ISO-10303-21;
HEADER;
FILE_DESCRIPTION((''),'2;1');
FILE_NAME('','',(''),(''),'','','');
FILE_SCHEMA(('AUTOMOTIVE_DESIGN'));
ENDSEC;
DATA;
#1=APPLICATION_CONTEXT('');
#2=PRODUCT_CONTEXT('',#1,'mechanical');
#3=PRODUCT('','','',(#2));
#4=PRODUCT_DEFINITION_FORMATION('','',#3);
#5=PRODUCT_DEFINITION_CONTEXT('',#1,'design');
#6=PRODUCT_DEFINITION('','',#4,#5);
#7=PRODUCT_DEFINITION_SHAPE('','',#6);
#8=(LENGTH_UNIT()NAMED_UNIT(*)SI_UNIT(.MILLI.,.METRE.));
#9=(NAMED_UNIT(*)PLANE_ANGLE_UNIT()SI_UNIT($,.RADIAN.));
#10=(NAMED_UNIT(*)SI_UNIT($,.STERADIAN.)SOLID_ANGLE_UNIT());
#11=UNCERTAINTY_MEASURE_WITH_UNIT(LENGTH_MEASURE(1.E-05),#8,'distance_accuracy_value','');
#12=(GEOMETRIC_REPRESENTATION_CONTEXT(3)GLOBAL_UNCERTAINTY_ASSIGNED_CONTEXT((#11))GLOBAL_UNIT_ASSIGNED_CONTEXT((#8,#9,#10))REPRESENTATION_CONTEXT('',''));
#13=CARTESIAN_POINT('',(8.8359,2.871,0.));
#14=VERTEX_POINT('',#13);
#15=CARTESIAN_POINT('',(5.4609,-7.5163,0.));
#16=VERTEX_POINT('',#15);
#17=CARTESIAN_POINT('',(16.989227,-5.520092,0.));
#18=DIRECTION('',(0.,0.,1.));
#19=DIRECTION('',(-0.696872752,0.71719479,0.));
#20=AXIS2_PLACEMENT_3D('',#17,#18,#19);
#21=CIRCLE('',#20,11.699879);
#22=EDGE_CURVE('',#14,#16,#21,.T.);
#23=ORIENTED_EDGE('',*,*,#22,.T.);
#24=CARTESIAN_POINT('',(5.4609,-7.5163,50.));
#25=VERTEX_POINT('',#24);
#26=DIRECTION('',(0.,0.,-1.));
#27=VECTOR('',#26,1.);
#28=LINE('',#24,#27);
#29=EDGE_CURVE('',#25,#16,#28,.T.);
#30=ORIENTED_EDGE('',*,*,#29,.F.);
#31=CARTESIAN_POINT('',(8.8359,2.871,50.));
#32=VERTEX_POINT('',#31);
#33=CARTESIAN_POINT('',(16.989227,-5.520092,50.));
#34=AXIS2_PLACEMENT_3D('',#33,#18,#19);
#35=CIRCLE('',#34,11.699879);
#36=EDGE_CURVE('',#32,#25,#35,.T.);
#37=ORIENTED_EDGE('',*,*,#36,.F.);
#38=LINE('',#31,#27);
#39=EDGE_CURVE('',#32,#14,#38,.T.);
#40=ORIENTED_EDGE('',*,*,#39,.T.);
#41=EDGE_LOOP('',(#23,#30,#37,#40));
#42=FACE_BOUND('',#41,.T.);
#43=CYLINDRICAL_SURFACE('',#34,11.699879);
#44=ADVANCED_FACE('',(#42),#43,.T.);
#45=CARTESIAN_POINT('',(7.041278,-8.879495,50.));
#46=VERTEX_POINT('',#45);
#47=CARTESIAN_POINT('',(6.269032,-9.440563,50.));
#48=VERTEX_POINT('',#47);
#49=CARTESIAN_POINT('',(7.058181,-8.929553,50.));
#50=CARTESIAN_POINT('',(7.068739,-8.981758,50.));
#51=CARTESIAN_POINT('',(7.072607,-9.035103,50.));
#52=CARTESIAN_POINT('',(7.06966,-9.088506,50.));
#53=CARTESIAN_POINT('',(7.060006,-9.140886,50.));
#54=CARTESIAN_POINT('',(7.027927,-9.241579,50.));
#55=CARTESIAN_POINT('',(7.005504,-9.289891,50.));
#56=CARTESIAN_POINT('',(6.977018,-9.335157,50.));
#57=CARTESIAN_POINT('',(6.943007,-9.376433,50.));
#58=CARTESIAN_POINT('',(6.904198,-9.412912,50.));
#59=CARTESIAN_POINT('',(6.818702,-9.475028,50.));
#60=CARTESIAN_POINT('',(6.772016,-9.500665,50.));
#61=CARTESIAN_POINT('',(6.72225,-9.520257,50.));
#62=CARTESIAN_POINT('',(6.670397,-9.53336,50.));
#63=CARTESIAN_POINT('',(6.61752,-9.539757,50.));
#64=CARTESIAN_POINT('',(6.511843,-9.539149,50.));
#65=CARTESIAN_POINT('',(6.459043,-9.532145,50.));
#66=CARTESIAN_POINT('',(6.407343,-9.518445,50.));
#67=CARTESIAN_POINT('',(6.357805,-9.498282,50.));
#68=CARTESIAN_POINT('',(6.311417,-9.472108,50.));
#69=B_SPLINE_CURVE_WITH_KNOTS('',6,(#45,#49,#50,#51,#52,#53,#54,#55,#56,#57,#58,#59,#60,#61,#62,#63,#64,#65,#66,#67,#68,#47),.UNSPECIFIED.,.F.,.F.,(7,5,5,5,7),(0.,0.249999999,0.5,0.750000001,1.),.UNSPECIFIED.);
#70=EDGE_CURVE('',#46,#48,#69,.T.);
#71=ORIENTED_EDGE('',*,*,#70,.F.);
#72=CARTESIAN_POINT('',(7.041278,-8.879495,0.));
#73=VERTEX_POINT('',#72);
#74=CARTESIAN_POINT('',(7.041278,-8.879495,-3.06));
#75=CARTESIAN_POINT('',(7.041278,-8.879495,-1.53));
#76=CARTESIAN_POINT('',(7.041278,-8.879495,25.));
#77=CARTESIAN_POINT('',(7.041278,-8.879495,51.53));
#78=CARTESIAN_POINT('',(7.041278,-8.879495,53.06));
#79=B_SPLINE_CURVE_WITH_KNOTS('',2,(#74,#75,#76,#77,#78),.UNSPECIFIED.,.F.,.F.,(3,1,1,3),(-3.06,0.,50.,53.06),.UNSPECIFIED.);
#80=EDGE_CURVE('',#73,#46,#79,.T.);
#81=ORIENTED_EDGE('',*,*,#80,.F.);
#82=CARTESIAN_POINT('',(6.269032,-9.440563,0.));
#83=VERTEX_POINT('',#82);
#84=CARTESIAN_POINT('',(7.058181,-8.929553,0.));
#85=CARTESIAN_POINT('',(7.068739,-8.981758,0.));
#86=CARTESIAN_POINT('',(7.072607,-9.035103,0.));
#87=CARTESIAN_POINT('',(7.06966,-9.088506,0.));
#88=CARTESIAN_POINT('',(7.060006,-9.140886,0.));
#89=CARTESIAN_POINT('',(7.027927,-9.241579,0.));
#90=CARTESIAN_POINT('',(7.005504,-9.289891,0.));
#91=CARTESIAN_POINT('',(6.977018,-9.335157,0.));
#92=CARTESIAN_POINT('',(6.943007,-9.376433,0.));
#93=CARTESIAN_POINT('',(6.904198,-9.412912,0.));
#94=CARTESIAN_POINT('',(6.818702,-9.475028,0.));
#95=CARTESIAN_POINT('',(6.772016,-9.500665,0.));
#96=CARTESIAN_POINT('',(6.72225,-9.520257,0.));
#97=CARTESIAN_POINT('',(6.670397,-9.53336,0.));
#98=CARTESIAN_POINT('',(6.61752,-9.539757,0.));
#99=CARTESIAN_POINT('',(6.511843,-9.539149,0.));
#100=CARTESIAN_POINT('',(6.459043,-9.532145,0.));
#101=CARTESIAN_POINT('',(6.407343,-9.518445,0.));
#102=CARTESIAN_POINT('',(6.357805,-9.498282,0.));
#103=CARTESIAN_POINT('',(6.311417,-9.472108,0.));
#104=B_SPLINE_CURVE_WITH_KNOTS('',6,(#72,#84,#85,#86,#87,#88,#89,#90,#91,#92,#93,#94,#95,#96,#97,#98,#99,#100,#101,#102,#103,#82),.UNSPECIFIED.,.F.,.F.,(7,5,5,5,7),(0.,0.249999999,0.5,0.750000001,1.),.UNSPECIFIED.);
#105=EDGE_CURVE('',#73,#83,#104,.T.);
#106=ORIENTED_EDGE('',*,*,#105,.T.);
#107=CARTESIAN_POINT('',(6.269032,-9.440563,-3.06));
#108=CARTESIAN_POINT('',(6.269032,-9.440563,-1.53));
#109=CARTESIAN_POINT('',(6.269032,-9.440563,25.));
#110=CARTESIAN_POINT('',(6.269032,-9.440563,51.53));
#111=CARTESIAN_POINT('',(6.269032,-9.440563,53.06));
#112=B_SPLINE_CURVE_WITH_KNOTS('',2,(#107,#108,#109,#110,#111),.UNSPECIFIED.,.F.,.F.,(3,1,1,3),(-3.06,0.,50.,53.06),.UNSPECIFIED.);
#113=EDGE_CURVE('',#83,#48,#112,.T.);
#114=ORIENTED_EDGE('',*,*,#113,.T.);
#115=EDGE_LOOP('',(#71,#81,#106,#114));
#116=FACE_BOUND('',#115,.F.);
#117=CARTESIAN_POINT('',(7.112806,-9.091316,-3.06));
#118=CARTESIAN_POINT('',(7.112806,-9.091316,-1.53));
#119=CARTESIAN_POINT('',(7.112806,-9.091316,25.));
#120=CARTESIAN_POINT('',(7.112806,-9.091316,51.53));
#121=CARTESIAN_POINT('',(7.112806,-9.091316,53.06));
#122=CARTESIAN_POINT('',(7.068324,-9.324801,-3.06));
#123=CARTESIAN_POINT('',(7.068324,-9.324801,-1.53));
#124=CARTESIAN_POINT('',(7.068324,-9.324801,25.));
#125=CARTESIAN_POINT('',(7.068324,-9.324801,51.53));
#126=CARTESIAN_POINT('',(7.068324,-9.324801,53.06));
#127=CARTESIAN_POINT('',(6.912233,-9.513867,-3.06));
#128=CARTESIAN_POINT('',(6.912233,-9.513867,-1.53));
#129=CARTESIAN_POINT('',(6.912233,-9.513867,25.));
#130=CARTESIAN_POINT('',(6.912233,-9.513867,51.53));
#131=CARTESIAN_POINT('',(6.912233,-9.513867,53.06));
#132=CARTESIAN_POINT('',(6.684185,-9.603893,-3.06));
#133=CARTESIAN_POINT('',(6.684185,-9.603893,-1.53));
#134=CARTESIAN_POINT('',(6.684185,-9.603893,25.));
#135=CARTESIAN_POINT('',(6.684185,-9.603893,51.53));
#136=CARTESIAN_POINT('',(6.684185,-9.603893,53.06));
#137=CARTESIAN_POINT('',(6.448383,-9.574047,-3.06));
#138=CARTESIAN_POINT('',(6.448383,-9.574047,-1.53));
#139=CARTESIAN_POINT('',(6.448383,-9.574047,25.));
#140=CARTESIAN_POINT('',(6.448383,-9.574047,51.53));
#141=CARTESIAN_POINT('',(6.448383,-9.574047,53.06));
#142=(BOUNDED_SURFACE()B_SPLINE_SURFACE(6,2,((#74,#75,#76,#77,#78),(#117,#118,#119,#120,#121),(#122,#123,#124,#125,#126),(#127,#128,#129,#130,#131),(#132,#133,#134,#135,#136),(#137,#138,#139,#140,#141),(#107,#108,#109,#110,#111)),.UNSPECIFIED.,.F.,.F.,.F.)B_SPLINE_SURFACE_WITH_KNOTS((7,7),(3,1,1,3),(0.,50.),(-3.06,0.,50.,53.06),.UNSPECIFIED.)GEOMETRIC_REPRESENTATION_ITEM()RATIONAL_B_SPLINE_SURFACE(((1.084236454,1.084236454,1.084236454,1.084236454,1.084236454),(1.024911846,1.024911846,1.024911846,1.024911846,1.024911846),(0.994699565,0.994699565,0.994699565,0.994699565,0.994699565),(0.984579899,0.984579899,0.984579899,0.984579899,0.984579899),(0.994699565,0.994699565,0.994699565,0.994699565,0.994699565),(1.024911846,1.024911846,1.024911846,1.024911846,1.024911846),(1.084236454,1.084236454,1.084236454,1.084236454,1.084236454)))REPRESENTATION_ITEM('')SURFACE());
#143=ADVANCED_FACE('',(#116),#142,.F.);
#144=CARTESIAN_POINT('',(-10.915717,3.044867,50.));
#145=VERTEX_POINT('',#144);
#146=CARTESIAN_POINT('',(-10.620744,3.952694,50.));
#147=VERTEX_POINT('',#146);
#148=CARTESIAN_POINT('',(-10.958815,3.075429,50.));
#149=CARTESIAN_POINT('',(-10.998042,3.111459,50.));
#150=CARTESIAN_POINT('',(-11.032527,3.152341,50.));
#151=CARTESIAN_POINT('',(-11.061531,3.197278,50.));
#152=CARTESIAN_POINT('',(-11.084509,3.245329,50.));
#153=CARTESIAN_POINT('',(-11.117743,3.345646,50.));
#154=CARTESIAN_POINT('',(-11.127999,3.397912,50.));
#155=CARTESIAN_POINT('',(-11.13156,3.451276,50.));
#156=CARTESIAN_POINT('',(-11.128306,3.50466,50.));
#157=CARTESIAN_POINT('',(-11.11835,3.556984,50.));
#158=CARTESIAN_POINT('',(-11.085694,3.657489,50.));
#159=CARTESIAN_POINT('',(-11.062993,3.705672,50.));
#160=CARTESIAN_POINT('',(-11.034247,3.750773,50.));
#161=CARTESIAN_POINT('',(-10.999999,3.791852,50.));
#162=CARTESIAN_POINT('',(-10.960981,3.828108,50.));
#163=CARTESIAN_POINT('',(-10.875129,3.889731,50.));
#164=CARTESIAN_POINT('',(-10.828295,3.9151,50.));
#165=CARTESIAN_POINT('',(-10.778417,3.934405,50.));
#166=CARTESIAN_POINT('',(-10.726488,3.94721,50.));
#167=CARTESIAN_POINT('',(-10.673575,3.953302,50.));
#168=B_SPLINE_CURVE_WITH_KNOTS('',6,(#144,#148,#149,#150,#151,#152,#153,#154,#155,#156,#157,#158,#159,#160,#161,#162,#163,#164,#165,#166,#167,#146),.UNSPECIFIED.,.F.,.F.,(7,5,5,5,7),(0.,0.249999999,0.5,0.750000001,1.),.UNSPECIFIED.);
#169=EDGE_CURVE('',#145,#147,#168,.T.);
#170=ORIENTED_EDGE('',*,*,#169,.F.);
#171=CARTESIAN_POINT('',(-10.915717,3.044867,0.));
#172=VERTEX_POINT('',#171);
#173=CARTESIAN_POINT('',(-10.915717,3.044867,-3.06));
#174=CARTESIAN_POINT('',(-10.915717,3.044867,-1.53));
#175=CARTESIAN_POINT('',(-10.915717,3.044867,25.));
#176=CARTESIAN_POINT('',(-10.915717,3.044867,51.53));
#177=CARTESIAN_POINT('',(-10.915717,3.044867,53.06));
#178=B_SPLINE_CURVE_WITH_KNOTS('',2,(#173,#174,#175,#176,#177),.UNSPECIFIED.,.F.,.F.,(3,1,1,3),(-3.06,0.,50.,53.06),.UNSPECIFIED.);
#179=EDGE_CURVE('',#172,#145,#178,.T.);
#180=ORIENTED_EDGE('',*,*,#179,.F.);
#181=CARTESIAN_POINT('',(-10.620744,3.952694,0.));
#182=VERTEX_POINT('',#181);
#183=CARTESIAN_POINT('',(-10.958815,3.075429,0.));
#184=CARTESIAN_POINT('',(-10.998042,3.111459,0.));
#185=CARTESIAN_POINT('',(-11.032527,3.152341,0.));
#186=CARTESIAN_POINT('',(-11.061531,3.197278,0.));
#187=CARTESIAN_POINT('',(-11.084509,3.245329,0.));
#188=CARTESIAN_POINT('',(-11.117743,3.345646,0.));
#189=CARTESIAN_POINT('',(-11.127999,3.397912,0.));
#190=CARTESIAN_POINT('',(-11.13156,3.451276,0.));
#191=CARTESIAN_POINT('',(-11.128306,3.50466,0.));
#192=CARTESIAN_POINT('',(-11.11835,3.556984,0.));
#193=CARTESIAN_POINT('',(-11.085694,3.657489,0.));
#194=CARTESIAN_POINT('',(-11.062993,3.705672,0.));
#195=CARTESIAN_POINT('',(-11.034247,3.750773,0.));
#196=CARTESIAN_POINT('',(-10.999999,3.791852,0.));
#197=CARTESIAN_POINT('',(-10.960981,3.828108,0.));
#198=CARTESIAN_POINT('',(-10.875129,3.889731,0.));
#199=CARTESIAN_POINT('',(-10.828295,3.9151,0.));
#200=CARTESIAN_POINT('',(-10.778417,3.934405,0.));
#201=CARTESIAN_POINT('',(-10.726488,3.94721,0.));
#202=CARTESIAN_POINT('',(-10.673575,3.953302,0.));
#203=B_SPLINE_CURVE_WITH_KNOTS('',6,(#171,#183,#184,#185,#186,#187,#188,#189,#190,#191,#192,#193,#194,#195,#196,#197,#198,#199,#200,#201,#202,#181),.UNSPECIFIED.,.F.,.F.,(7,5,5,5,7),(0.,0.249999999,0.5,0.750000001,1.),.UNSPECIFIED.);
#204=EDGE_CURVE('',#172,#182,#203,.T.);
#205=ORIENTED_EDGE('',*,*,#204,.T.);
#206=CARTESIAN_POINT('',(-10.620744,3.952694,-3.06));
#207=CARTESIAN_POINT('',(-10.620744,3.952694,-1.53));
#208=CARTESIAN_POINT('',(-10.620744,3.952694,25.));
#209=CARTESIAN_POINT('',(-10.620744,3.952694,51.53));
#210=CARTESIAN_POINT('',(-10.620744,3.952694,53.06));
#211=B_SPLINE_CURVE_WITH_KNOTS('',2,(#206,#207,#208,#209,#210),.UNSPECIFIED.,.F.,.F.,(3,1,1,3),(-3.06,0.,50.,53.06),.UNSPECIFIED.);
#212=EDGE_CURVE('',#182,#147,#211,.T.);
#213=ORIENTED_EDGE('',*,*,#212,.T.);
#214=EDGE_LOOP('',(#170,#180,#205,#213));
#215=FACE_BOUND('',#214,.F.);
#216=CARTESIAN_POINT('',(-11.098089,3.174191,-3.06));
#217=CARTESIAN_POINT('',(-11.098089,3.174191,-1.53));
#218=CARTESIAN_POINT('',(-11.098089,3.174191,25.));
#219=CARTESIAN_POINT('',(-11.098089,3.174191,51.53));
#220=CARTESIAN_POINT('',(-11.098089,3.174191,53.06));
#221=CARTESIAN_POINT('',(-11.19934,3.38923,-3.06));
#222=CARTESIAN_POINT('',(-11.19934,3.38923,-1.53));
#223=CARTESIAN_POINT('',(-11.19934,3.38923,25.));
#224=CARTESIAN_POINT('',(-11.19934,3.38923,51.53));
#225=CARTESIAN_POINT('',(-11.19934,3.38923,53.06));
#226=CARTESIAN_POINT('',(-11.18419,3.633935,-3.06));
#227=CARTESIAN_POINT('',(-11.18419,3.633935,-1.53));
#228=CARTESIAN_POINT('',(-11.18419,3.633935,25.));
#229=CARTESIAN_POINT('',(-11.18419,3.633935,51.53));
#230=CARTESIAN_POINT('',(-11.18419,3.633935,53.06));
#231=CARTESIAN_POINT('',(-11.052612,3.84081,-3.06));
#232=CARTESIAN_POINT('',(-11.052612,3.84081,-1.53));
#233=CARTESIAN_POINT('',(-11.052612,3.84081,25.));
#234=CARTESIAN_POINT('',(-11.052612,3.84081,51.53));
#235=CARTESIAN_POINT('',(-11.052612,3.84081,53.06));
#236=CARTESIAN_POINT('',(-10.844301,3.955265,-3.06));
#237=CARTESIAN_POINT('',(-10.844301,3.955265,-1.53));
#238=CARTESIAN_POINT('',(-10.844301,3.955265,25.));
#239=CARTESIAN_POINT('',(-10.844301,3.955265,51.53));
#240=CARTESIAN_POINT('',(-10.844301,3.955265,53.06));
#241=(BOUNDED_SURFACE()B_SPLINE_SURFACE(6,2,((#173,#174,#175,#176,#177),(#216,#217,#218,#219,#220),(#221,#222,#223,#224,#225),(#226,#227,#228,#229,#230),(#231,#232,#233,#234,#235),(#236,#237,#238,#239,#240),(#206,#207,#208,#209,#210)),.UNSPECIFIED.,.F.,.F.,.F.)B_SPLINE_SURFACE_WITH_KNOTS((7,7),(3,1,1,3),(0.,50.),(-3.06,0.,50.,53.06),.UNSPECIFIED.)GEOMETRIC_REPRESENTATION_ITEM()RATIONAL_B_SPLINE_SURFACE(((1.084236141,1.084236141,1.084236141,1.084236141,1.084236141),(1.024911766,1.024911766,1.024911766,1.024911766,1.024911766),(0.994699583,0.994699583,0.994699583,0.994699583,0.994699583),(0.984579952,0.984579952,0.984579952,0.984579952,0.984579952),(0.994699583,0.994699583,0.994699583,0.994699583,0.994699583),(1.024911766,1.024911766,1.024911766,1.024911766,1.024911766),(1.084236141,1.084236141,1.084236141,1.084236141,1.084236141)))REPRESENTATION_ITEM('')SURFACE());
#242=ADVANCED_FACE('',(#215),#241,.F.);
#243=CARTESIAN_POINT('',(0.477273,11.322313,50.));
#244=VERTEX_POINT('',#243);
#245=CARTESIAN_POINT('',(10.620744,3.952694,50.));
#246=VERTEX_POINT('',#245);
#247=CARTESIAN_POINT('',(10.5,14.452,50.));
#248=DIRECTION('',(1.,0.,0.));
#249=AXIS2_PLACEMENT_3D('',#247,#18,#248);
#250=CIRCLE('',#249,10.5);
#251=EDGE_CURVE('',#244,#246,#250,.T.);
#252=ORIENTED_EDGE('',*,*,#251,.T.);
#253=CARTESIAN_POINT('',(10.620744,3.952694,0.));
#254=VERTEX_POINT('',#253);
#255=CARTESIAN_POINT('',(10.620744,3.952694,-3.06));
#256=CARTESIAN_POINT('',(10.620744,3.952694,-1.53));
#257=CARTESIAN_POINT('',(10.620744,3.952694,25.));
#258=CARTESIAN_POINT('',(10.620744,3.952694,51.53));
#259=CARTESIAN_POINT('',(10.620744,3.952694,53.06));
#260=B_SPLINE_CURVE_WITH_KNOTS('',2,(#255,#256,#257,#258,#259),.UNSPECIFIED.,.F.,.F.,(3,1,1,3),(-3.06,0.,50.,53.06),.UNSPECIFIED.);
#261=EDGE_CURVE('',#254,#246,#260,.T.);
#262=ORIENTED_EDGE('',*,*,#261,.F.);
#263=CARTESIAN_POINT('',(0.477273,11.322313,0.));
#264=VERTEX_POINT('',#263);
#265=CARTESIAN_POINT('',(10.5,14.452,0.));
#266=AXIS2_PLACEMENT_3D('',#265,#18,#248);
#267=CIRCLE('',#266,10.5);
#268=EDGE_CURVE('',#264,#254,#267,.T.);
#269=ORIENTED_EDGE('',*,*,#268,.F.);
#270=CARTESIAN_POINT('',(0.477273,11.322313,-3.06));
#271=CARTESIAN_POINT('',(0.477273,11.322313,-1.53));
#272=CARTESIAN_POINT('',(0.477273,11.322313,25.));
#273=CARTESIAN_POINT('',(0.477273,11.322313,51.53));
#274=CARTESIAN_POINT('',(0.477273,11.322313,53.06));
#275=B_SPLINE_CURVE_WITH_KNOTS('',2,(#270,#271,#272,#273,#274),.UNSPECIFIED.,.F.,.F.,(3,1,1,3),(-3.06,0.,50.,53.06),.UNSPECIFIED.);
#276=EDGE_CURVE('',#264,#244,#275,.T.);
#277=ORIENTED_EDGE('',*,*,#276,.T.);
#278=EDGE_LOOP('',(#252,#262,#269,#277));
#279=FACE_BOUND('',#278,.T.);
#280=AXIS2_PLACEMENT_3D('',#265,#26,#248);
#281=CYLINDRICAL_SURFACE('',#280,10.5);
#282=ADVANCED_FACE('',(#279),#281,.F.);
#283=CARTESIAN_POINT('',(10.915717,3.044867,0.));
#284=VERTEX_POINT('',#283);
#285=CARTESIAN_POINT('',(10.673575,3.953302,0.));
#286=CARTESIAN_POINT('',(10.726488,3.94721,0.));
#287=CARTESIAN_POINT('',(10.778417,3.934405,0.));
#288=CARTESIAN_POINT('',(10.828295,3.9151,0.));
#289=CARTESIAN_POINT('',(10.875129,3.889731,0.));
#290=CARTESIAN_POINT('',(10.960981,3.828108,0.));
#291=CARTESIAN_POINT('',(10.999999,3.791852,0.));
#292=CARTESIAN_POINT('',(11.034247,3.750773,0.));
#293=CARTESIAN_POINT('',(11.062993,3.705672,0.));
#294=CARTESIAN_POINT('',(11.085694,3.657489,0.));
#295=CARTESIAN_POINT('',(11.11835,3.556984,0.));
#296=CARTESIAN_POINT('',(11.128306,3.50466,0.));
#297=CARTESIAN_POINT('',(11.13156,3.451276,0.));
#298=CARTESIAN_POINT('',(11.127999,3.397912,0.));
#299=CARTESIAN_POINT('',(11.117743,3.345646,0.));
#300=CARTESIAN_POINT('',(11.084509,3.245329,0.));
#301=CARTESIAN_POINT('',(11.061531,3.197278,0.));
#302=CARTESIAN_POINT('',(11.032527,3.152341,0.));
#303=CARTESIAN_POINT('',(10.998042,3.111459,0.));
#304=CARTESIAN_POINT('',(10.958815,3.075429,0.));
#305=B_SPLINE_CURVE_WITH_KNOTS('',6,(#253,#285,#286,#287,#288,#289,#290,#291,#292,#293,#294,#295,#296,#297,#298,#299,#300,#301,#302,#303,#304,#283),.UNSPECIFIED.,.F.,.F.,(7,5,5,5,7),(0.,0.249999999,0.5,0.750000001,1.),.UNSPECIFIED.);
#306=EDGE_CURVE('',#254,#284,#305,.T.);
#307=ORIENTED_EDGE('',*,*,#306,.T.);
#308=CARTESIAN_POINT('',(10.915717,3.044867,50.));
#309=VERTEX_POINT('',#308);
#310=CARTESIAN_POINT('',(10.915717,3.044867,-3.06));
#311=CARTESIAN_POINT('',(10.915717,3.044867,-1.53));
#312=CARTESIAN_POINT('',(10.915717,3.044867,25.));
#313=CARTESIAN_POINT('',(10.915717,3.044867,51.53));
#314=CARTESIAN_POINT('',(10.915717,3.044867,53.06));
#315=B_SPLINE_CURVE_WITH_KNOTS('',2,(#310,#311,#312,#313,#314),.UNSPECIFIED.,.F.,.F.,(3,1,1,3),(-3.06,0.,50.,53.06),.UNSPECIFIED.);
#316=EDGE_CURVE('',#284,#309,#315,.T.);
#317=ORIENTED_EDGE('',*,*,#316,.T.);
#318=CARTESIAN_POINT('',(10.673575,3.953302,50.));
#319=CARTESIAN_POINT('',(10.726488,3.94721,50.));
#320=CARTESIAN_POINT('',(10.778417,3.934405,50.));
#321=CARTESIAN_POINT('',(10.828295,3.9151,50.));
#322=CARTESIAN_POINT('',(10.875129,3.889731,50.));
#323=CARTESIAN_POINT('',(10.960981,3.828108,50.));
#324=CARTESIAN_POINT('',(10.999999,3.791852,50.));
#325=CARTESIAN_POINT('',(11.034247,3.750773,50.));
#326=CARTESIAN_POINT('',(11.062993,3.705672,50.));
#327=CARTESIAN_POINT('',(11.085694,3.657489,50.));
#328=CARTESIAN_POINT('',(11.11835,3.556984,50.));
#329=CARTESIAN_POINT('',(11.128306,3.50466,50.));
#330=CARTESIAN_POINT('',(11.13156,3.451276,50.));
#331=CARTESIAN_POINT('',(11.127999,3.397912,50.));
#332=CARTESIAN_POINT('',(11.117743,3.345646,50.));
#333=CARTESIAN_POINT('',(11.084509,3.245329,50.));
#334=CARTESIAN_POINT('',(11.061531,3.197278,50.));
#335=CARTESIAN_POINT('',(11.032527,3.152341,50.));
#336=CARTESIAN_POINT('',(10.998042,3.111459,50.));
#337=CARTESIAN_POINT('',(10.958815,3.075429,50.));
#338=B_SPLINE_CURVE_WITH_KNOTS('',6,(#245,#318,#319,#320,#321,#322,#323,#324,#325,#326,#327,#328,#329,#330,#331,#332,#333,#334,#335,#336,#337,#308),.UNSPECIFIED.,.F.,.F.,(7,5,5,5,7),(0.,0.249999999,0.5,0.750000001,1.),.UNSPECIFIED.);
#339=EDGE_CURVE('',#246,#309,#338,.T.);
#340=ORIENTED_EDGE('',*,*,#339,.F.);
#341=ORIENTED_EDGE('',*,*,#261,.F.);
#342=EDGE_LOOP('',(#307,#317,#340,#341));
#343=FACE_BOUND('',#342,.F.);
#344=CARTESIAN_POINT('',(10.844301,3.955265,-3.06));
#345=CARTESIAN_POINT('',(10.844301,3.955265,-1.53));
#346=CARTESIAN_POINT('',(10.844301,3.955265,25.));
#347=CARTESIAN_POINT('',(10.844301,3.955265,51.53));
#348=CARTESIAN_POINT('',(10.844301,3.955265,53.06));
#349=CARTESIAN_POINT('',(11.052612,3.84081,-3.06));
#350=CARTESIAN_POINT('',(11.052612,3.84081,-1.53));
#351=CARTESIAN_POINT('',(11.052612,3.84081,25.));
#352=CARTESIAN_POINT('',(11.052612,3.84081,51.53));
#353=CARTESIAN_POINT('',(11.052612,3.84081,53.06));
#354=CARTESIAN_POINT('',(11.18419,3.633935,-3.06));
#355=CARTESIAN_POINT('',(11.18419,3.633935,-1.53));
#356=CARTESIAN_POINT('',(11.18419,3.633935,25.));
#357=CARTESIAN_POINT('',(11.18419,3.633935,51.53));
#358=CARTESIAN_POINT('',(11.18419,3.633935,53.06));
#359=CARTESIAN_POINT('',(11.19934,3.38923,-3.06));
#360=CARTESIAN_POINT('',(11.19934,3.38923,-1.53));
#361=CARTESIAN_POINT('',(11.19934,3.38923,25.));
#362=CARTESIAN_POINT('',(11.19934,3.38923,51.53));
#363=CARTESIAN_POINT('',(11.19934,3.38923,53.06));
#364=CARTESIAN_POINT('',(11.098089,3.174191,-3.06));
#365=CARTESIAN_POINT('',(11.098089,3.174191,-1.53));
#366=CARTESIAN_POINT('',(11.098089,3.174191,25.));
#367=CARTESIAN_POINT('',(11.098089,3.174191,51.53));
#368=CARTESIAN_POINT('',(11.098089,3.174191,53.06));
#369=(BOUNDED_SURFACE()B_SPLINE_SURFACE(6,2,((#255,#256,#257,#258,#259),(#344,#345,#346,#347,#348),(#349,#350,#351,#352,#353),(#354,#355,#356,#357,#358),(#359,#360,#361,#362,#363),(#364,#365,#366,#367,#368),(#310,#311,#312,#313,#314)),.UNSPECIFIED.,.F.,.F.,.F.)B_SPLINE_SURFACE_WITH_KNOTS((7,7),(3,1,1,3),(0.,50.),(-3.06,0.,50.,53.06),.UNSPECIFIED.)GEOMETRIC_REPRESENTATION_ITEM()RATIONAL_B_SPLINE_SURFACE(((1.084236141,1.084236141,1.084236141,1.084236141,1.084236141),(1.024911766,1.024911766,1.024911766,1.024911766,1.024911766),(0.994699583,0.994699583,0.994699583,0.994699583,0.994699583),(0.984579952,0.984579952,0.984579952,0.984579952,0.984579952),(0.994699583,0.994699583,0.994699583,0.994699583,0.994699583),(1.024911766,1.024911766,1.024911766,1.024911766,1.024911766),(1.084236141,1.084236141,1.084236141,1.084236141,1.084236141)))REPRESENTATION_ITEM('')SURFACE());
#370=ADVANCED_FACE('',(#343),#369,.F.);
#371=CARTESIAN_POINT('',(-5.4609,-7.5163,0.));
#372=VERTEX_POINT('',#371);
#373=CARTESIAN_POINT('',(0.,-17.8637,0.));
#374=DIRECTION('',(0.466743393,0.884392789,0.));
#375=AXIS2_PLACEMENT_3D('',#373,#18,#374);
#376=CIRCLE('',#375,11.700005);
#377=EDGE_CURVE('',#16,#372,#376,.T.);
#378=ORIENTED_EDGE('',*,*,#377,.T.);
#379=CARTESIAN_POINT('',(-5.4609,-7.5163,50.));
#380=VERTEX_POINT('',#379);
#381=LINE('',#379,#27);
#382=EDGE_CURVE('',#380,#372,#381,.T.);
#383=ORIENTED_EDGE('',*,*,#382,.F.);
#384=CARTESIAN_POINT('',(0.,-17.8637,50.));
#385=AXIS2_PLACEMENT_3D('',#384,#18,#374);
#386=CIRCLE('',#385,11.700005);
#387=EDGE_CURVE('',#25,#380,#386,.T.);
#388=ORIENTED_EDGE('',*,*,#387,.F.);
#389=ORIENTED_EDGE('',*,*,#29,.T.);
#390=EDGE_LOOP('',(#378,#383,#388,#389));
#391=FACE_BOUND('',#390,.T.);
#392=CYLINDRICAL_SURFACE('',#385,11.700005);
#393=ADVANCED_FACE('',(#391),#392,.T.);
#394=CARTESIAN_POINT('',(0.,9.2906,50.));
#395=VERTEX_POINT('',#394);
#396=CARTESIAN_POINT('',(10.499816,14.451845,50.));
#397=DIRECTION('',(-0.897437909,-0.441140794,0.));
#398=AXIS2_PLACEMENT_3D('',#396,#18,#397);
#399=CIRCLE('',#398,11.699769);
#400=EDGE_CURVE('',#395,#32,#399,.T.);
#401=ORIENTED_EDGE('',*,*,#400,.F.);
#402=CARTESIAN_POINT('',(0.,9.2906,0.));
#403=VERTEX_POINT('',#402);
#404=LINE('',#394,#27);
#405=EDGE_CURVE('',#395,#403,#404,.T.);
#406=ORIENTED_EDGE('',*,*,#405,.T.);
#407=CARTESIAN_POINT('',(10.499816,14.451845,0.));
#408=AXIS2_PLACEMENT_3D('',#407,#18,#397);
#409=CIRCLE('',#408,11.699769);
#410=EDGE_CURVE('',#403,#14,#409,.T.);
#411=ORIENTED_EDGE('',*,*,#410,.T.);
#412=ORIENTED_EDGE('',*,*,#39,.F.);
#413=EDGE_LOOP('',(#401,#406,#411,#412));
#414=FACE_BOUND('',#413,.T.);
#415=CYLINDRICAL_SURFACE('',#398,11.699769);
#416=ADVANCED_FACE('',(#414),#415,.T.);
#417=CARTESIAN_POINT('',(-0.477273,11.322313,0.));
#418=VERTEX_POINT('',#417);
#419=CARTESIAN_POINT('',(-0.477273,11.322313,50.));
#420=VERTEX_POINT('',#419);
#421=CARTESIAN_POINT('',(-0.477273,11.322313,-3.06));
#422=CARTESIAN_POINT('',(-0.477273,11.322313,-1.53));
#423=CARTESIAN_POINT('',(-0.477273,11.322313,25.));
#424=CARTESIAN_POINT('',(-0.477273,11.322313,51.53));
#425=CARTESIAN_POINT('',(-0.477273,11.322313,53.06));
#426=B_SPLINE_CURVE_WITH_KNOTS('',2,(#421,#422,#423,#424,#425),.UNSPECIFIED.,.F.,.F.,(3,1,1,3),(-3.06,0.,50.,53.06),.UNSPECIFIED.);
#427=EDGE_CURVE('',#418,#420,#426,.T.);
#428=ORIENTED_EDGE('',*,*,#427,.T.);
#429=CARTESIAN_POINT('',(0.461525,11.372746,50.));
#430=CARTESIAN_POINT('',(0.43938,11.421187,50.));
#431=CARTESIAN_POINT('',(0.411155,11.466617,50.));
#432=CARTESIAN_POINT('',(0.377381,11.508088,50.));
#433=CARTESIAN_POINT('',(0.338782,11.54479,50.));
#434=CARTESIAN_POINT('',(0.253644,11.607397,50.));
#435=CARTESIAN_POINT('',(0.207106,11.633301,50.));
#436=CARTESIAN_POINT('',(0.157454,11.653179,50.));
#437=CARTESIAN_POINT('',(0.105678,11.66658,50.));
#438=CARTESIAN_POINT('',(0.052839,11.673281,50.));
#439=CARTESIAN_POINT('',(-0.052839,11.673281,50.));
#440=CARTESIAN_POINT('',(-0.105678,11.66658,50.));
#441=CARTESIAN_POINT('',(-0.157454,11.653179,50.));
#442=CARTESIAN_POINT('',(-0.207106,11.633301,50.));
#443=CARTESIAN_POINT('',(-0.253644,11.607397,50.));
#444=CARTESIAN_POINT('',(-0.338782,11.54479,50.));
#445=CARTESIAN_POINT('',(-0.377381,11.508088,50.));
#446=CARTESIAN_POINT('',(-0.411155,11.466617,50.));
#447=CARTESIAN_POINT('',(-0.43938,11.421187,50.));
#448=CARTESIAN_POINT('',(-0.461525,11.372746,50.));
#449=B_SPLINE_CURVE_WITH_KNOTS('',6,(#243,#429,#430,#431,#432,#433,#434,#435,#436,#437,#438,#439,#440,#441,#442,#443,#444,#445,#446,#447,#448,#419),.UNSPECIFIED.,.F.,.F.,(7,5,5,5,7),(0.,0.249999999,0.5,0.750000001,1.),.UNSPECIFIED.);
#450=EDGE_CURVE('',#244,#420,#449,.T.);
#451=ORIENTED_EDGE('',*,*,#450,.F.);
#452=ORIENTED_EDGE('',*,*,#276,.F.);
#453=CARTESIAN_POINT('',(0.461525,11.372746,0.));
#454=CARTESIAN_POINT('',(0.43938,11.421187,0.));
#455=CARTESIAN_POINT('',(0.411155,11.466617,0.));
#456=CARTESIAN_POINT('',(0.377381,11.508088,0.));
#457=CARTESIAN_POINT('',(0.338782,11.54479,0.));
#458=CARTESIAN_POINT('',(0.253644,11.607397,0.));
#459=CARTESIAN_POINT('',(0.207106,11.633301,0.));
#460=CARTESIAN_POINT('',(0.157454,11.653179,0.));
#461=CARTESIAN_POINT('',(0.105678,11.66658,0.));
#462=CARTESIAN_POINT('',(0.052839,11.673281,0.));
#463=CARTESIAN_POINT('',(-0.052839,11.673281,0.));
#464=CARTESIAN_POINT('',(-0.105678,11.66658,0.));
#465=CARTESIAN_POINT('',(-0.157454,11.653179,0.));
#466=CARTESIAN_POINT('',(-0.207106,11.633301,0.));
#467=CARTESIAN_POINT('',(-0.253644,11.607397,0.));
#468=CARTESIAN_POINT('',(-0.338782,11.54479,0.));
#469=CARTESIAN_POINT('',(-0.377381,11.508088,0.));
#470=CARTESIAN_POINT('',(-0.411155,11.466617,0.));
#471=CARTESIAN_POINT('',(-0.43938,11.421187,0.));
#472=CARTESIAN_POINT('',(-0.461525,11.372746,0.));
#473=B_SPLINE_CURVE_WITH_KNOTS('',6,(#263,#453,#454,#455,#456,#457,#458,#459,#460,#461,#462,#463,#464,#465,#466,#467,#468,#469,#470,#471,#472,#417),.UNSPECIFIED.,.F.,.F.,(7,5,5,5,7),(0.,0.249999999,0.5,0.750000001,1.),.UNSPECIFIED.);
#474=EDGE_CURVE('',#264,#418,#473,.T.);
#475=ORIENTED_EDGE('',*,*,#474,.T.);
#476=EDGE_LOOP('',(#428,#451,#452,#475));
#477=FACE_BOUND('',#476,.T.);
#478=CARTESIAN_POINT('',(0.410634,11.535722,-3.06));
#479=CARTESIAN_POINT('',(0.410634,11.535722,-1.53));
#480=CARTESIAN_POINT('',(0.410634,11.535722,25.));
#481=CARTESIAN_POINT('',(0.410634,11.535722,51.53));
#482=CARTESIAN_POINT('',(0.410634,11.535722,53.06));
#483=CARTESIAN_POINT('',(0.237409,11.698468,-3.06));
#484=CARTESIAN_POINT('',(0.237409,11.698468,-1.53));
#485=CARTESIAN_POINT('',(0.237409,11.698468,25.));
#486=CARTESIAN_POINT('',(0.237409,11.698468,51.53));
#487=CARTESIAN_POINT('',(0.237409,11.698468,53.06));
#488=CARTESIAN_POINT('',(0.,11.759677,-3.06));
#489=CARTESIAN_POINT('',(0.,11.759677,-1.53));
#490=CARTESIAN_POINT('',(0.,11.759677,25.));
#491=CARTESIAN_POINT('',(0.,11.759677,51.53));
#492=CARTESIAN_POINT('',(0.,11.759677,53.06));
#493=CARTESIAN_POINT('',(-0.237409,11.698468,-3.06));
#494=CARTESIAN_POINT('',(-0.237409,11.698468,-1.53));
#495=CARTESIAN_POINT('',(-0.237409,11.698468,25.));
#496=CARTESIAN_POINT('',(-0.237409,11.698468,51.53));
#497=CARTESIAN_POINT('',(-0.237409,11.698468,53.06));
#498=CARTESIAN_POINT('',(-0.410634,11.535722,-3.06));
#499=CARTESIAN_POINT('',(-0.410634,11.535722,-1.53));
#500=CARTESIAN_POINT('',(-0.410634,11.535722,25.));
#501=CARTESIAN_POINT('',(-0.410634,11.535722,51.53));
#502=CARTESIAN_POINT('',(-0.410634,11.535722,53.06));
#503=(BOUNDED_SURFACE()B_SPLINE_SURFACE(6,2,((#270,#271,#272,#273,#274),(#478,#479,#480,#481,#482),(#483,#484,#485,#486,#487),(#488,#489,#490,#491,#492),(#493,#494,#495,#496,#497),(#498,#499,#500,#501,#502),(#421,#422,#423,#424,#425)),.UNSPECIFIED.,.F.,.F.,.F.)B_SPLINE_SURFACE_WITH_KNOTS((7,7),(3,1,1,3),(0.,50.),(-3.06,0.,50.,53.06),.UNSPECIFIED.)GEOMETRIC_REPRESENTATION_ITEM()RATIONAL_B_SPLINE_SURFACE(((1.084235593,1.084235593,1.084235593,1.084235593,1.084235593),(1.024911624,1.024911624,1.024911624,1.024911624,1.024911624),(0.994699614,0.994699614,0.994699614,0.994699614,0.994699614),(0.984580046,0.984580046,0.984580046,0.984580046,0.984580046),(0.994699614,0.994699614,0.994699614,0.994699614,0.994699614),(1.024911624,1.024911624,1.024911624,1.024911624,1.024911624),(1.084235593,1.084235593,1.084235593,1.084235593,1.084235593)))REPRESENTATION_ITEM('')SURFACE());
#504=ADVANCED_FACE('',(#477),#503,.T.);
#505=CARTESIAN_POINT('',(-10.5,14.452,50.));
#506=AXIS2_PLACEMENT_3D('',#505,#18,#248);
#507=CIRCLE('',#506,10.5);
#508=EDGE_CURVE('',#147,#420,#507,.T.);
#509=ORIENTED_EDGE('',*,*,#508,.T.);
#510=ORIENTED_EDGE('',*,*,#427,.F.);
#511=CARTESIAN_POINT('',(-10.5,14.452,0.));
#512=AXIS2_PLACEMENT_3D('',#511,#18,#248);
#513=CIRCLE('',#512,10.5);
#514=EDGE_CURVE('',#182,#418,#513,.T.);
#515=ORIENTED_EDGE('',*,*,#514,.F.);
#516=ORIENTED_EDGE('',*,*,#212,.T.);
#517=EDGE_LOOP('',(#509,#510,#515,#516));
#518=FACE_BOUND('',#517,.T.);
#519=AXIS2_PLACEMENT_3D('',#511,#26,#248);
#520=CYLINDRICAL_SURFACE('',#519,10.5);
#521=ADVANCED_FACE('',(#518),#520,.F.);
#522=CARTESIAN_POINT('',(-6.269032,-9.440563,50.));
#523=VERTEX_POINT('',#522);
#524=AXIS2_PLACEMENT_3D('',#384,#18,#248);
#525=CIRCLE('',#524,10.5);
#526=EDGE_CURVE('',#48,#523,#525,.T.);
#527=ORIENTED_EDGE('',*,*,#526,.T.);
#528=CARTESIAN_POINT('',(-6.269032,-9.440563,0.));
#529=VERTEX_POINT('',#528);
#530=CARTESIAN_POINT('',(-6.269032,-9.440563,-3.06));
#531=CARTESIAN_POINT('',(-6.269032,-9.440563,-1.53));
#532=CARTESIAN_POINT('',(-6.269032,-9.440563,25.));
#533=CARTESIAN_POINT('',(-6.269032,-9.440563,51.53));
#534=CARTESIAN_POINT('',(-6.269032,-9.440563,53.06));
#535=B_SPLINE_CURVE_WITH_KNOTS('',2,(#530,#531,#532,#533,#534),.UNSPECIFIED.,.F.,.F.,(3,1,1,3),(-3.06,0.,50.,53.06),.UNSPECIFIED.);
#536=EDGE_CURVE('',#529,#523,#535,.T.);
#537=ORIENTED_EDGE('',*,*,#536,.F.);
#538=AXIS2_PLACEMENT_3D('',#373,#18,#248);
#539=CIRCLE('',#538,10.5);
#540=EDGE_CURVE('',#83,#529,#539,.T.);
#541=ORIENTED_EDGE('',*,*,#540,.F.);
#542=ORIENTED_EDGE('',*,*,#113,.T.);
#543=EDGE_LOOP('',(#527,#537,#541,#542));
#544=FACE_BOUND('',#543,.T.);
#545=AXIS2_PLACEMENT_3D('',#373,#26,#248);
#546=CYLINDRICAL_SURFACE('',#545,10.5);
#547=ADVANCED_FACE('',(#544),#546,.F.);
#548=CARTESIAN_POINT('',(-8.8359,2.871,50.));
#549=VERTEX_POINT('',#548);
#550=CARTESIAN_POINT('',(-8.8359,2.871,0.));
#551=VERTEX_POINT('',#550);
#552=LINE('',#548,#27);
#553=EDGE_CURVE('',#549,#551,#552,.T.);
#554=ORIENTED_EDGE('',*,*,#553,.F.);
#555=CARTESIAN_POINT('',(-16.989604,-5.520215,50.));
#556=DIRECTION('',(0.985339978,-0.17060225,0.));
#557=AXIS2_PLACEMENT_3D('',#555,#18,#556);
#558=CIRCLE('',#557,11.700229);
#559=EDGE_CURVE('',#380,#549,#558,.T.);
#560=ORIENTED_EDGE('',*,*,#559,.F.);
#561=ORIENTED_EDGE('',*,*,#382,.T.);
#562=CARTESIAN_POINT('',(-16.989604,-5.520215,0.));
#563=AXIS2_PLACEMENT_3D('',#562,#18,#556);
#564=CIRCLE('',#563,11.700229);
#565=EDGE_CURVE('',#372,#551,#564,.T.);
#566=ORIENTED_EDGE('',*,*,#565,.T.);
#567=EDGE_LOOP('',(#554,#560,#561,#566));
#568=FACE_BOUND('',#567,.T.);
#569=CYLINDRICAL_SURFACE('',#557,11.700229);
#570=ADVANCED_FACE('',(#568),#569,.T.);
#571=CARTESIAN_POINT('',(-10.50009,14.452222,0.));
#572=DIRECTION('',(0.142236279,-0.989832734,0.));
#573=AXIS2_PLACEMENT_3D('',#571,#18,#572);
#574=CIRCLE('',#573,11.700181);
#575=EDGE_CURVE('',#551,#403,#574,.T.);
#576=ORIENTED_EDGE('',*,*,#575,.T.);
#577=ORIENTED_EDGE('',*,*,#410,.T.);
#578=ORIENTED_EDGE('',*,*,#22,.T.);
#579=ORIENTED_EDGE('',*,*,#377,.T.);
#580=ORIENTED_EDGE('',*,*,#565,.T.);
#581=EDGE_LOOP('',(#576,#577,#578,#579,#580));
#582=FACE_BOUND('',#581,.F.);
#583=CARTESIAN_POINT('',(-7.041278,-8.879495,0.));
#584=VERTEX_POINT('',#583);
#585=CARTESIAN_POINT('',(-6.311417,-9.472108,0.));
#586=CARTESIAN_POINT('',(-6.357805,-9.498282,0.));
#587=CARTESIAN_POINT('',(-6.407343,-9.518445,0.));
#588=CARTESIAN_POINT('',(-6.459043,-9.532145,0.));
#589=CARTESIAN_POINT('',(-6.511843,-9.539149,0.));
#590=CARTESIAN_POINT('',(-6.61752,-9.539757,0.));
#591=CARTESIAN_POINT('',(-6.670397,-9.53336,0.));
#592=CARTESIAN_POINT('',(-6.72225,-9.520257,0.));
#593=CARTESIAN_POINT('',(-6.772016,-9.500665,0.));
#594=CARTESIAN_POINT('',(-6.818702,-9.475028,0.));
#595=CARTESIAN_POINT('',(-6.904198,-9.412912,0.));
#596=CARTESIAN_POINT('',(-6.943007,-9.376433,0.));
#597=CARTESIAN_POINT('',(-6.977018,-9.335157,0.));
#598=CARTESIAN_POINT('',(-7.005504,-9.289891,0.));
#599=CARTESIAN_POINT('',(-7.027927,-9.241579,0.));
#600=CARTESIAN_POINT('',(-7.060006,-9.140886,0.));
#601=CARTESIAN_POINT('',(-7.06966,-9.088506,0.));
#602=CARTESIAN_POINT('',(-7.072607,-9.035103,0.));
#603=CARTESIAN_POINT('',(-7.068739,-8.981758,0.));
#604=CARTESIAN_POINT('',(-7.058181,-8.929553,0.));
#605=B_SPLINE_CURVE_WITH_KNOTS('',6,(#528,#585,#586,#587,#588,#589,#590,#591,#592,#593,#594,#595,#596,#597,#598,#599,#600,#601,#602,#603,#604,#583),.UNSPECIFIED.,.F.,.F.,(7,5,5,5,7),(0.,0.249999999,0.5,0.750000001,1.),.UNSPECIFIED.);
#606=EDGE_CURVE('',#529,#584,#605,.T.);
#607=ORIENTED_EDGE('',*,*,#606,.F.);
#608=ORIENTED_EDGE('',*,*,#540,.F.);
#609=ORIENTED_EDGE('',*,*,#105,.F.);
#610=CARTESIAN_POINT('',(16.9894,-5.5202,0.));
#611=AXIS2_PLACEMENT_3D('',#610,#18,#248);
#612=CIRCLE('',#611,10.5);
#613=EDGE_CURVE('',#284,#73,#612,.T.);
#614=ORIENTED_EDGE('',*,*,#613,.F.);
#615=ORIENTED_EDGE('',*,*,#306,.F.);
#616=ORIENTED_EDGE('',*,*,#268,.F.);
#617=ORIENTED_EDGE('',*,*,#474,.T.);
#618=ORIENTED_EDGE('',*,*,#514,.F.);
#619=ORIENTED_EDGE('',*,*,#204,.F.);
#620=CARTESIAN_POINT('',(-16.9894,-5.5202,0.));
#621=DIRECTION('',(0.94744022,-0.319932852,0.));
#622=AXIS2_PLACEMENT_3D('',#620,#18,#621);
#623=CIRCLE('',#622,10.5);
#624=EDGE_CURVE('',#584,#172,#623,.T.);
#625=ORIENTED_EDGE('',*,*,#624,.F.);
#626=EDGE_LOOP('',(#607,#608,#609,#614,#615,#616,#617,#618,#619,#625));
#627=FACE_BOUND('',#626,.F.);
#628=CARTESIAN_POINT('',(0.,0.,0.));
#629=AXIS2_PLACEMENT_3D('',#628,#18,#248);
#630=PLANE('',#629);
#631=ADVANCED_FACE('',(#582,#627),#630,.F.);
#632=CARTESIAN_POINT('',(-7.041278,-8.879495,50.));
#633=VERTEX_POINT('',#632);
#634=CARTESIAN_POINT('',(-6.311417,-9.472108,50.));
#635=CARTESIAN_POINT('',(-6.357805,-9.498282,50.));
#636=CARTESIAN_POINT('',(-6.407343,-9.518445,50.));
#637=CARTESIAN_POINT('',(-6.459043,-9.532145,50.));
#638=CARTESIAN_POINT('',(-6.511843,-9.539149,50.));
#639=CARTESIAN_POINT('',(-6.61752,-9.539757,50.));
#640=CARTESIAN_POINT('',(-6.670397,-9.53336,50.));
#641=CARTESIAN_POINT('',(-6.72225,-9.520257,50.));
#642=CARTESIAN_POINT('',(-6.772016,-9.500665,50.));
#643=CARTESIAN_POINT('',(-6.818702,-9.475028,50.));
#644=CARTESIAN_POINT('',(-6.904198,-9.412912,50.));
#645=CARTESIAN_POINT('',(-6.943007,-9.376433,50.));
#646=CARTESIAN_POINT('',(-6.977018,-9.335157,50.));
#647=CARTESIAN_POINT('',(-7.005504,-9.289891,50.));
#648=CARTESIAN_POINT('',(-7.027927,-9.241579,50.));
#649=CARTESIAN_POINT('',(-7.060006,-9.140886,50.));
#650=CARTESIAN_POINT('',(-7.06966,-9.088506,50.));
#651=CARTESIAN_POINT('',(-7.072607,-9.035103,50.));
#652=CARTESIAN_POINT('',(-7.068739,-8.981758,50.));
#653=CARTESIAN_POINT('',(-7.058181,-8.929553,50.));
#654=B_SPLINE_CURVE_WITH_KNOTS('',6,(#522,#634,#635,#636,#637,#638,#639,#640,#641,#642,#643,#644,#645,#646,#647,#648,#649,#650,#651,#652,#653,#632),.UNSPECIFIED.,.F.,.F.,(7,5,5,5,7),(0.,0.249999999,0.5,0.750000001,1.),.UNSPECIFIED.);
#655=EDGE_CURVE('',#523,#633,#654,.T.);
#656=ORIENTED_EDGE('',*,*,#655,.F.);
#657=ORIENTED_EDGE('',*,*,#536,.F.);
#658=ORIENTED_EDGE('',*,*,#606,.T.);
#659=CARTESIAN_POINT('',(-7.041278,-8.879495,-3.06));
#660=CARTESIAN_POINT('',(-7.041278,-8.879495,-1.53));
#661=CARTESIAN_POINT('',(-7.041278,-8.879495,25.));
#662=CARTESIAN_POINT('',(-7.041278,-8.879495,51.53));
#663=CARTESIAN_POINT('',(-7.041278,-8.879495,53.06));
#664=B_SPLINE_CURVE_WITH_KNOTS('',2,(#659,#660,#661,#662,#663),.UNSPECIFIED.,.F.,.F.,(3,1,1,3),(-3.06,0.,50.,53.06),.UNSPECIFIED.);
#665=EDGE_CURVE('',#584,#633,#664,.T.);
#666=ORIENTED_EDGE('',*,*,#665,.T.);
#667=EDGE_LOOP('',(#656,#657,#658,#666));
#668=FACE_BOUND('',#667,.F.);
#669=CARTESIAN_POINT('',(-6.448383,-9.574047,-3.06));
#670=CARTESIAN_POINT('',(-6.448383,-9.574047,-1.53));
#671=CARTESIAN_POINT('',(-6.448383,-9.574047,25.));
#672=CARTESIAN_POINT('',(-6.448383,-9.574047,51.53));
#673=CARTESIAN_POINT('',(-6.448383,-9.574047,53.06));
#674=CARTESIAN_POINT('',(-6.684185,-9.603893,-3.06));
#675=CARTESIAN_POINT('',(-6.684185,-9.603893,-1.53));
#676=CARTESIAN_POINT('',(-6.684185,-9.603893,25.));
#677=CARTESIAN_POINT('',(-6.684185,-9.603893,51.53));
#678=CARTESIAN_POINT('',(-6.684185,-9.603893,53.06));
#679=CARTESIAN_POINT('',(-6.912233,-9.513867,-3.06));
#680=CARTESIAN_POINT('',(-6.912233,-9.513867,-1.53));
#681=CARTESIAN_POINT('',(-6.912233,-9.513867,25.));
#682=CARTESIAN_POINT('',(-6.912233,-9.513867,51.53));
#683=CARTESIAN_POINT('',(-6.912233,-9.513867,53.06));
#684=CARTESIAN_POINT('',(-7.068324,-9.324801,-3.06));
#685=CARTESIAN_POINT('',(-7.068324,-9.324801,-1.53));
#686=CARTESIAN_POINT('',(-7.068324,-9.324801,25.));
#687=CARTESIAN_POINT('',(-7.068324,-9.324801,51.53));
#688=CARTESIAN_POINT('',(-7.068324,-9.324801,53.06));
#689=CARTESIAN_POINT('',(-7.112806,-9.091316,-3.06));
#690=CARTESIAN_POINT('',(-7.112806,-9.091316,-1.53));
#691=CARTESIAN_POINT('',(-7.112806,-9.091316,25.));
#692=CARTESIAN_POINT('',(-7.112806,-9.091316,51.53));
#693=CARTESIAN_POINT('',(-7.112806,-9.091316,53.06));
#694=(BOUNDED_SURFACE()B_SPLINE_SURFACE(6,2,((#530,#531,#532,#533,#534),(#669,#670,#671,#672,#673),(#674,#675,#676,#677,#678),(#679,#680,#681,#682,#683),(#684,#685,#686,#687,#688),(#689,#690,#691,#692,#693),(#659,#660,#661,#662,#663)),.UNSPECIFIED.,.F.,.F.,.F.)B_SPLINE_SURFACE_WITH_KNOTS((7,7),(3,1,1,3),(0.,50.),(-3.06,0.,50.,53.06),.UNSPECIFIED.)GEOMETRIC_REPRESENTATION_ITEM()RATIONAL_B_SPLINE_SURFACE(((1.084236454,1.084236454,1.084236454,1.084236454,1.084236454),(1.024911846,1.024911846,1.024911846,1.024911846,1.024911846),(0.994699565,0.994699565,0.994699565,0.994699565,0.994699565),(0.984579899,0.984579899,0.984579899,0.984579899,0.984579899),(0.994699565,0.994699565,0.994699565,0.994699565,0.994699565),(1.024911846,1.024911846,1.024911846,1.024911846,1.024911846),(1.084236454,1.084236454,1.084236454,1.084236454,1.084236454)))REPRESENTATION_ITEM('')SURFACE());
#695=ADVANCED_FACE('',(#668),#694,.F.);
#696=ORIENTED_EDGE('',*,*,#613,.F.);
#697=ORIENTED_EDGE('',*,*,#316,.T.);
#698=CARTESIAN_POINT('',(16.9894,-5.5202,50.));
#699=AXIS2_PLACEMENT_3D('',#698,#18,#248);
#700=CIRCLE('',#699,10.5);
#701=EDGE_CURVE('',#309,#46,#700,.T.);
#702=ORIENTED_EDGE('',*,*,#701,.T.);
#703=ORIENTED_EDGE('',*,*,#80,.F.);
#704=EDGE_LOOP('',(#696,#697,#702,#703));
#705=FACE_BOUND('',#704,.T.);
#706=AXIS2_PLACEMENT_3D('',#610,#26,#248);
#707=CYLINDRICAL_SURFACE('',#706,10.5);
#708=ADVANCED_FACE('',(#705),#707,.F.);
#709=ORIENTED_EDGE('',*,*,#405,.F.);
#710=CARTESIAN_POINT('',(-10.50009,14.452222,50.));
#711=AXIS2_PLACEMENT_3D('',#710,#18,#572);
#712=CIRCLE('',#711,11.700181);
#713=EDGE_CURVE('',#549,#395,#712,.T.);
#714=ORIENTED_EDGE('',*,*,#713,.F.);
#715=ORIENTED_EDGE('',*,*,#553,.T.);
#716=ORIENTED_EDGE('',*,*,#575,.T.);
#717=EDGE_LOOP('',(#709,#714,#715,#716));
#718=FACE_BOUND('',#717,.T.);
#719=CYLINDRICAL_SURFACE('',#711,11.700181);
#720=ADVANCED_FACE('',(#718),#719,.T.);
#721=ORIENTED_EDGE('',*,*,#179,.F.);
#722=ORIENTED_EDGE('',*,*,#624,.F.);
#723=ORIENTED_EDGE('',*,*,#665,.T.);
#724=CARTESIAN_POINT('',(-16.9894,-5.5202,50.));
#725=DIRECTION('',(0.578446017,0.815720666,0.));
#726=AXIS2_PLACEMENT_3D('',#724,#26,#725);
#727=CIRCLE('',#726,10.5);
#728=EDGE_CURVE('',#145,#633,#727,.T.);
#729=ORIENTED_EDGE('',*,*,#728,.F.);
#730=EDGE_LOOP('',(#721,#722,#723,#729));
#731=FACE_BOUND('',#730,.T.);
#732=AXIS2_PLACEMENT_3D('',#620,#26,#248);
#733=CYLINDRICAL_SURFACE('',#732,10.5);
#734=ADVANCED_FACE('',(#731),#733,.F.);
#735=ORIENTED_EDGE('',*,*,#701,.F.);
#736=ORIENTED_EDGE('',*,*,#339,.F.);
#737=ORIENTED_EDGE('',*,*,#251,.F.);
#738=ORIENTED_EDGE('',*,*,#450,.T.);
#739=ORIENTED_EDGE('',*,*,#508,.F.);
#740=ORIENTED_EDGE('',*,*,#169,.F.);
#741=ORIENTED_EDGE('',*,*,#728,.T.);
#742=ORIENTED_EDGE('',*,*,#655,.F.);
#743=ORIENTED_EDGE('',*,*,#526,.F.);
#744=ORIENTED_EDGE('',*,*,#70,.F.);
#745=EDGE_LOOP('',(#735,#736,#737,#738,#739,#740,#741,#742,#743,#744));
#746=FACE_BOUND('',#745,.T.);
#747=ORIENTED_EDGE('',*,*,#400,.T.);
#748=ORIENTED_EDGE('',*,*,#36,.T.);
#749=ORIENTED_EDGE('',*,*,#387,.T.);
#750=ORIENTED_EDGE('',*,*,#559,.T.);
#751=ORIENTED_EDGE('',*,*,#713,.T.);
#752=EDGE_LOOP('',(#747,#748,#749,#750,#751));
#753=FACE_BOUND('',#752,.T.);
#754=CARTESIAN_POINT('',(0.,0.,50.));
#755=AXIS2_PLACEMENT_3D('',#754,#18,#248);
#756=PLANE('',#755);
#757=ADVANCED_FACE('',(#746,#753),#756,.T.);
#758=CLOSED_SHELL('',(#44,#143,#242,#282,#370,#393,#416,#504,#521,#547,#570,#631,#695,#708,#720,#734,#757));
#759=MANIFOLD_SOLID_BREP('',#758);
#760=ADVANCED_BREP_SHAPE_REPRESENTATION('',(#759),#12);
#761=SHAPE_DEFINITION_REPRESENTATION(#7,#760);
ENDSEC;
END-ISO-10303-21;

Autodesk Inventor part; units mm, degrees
ref_plane "YZ Plane" through (0, 0, 0) normal (1, 0, 0) x (0, 1, 0)
ref_plane "XZ Plane" through (0, 0, 0) normal (0, 1, 0) x (-1, 0, 0)
ref_plane "XY Plane" through (0, 0, 0) normal (0, 0, 1) x (1, 0, 0)
sketch "Skizze1" plane through (0, 0, 0) normal (0, 0, 1) x (1, 0, 0)
  circle A0 centre (-10.5, 14.452) radius 10.5
  circle A1 centre (0, 0) radius 17.8637 construction
  circle A2 centre (10.5, 14.452) radius 10.5
  circle A3 centre (16.9894, -5.5202) radius 10.5
  circle A4 centre (0, -17.8637) radius 10.5
  circle A5 centre (-16.9894, -5.5202) radius 10.5
  arc A6 (-13.7447, 4.4659) -> (0, 14.452) centre (-10.5, 14.452) ccw
  arc A7 (0, 14.452) -> (13.7447, 4.4659) centre (10.5, 14.452) ccw
  arc A8 (13.7447, 4.4659) -> (8.4947, -11.6919) centre (16.9894, -5.5202) ccw
  arc A9 (8.4947, -11.6919) -> (-8.4947, -11.6919) centre (0, -17.8637) ccw
  arc A10 (-8.4947, -11.6919) -> (-13.7447, 4.4659) centre (-16.9894, -5.5202) ccw
  dimension "d0" = 21
  dimension "d1" = 10.5
extrude "Extrusion1" add sketch "Skizze1" along normal blind 50 contours A2 A3 A4 A5 A0
fillet "Rundung1" radius 0.5 5 edges at (0, 14.452, 25) (13.7447, 4.4659, 25) (-13.7447, 4.4659, 25) (-8.4947, -11.6919, 25) (8.4947, -11.6919, 25)
sketch "Skizze2" plane through (0, 0, 50) normal (0, 0, 1) x (1, 0, 0)
  arc A0 (6.269, -9.4405) -> (7.0412, -8.8794) centre (6.5675, -9.0394) ccw projected
  arc A1 (10.9157, 3.0449) -> (7.0412, -8.8794) centre (16.9894, -5.5202) ccw projected
  arc A2 (10.9157, 3.0449) -> (10.6207, 3.9527) centre (10.6264, 3.4527) ccw projected
  arc A3 (0.4773, 11.3223) -> (10.6207, 3.9527) centre (10.5, 14.452) ccw projected
  arc A4 (0.4773, 11.3223) -> (-0.4773, 11.3223) centre (0, 11.1733) ccw projected
  arc A5 (-10.6207, 3.9527) -> (-0.4773, 11.3223) centre (-10.5, 14.452) ccw projected
  arc A6 (-10.6207, 3.9527) -> (-10.9157, 3.0449) centre (-10.6264, 3.4527) ccw projected
  arc A7 (-7.0412, -8.8794) -> (-10.9157, 3.0449) centre (-16.9894, -5.5202) ccw projected
  arc A8 (-7.0412, -8.8794) -> (-6.269, -9.4405) centre (-6.5675, -9.0394) ccw projected
  arc A9 (6.269, -9.4405) -> (-6.269, -9.4405) centre (0, -17.8637) ccw projected
  arc A10 (8.8359, 2.871) -> (5.4609, -7.5163) centre (16.9894, -5.5202) ccw
  arc A11 (5.4609, -7.5163) -> (-5.4609, -7.5163) centre (0, -17.8637) ccw
  arc A12 (-5.4609, -7.5163) -> (-8.8359, 2.871) centre (-16.9894, -5.5202) ccw
  arc A13 (-8.8359, 2.871) -> (0, 9.2906) centre (-10.5, 14.452) ccw
  arc A14 (0, 9.2906) -> (8.8359, 2.871) centre (10.5, 14.452) ccw
  point P0 (0, 0)
  dimension "d5" = 1.2
extrude "Extrusion2" cut sketch "Skizze2" against normal through all contours A10 A11 A12 A13 A14
equation "\"G_L\" = 0"
equation "\"G_H\" = 0"
equation "\"G_B\" = 0"
properties part number "21700_stern" material "GEDA Stahl"
